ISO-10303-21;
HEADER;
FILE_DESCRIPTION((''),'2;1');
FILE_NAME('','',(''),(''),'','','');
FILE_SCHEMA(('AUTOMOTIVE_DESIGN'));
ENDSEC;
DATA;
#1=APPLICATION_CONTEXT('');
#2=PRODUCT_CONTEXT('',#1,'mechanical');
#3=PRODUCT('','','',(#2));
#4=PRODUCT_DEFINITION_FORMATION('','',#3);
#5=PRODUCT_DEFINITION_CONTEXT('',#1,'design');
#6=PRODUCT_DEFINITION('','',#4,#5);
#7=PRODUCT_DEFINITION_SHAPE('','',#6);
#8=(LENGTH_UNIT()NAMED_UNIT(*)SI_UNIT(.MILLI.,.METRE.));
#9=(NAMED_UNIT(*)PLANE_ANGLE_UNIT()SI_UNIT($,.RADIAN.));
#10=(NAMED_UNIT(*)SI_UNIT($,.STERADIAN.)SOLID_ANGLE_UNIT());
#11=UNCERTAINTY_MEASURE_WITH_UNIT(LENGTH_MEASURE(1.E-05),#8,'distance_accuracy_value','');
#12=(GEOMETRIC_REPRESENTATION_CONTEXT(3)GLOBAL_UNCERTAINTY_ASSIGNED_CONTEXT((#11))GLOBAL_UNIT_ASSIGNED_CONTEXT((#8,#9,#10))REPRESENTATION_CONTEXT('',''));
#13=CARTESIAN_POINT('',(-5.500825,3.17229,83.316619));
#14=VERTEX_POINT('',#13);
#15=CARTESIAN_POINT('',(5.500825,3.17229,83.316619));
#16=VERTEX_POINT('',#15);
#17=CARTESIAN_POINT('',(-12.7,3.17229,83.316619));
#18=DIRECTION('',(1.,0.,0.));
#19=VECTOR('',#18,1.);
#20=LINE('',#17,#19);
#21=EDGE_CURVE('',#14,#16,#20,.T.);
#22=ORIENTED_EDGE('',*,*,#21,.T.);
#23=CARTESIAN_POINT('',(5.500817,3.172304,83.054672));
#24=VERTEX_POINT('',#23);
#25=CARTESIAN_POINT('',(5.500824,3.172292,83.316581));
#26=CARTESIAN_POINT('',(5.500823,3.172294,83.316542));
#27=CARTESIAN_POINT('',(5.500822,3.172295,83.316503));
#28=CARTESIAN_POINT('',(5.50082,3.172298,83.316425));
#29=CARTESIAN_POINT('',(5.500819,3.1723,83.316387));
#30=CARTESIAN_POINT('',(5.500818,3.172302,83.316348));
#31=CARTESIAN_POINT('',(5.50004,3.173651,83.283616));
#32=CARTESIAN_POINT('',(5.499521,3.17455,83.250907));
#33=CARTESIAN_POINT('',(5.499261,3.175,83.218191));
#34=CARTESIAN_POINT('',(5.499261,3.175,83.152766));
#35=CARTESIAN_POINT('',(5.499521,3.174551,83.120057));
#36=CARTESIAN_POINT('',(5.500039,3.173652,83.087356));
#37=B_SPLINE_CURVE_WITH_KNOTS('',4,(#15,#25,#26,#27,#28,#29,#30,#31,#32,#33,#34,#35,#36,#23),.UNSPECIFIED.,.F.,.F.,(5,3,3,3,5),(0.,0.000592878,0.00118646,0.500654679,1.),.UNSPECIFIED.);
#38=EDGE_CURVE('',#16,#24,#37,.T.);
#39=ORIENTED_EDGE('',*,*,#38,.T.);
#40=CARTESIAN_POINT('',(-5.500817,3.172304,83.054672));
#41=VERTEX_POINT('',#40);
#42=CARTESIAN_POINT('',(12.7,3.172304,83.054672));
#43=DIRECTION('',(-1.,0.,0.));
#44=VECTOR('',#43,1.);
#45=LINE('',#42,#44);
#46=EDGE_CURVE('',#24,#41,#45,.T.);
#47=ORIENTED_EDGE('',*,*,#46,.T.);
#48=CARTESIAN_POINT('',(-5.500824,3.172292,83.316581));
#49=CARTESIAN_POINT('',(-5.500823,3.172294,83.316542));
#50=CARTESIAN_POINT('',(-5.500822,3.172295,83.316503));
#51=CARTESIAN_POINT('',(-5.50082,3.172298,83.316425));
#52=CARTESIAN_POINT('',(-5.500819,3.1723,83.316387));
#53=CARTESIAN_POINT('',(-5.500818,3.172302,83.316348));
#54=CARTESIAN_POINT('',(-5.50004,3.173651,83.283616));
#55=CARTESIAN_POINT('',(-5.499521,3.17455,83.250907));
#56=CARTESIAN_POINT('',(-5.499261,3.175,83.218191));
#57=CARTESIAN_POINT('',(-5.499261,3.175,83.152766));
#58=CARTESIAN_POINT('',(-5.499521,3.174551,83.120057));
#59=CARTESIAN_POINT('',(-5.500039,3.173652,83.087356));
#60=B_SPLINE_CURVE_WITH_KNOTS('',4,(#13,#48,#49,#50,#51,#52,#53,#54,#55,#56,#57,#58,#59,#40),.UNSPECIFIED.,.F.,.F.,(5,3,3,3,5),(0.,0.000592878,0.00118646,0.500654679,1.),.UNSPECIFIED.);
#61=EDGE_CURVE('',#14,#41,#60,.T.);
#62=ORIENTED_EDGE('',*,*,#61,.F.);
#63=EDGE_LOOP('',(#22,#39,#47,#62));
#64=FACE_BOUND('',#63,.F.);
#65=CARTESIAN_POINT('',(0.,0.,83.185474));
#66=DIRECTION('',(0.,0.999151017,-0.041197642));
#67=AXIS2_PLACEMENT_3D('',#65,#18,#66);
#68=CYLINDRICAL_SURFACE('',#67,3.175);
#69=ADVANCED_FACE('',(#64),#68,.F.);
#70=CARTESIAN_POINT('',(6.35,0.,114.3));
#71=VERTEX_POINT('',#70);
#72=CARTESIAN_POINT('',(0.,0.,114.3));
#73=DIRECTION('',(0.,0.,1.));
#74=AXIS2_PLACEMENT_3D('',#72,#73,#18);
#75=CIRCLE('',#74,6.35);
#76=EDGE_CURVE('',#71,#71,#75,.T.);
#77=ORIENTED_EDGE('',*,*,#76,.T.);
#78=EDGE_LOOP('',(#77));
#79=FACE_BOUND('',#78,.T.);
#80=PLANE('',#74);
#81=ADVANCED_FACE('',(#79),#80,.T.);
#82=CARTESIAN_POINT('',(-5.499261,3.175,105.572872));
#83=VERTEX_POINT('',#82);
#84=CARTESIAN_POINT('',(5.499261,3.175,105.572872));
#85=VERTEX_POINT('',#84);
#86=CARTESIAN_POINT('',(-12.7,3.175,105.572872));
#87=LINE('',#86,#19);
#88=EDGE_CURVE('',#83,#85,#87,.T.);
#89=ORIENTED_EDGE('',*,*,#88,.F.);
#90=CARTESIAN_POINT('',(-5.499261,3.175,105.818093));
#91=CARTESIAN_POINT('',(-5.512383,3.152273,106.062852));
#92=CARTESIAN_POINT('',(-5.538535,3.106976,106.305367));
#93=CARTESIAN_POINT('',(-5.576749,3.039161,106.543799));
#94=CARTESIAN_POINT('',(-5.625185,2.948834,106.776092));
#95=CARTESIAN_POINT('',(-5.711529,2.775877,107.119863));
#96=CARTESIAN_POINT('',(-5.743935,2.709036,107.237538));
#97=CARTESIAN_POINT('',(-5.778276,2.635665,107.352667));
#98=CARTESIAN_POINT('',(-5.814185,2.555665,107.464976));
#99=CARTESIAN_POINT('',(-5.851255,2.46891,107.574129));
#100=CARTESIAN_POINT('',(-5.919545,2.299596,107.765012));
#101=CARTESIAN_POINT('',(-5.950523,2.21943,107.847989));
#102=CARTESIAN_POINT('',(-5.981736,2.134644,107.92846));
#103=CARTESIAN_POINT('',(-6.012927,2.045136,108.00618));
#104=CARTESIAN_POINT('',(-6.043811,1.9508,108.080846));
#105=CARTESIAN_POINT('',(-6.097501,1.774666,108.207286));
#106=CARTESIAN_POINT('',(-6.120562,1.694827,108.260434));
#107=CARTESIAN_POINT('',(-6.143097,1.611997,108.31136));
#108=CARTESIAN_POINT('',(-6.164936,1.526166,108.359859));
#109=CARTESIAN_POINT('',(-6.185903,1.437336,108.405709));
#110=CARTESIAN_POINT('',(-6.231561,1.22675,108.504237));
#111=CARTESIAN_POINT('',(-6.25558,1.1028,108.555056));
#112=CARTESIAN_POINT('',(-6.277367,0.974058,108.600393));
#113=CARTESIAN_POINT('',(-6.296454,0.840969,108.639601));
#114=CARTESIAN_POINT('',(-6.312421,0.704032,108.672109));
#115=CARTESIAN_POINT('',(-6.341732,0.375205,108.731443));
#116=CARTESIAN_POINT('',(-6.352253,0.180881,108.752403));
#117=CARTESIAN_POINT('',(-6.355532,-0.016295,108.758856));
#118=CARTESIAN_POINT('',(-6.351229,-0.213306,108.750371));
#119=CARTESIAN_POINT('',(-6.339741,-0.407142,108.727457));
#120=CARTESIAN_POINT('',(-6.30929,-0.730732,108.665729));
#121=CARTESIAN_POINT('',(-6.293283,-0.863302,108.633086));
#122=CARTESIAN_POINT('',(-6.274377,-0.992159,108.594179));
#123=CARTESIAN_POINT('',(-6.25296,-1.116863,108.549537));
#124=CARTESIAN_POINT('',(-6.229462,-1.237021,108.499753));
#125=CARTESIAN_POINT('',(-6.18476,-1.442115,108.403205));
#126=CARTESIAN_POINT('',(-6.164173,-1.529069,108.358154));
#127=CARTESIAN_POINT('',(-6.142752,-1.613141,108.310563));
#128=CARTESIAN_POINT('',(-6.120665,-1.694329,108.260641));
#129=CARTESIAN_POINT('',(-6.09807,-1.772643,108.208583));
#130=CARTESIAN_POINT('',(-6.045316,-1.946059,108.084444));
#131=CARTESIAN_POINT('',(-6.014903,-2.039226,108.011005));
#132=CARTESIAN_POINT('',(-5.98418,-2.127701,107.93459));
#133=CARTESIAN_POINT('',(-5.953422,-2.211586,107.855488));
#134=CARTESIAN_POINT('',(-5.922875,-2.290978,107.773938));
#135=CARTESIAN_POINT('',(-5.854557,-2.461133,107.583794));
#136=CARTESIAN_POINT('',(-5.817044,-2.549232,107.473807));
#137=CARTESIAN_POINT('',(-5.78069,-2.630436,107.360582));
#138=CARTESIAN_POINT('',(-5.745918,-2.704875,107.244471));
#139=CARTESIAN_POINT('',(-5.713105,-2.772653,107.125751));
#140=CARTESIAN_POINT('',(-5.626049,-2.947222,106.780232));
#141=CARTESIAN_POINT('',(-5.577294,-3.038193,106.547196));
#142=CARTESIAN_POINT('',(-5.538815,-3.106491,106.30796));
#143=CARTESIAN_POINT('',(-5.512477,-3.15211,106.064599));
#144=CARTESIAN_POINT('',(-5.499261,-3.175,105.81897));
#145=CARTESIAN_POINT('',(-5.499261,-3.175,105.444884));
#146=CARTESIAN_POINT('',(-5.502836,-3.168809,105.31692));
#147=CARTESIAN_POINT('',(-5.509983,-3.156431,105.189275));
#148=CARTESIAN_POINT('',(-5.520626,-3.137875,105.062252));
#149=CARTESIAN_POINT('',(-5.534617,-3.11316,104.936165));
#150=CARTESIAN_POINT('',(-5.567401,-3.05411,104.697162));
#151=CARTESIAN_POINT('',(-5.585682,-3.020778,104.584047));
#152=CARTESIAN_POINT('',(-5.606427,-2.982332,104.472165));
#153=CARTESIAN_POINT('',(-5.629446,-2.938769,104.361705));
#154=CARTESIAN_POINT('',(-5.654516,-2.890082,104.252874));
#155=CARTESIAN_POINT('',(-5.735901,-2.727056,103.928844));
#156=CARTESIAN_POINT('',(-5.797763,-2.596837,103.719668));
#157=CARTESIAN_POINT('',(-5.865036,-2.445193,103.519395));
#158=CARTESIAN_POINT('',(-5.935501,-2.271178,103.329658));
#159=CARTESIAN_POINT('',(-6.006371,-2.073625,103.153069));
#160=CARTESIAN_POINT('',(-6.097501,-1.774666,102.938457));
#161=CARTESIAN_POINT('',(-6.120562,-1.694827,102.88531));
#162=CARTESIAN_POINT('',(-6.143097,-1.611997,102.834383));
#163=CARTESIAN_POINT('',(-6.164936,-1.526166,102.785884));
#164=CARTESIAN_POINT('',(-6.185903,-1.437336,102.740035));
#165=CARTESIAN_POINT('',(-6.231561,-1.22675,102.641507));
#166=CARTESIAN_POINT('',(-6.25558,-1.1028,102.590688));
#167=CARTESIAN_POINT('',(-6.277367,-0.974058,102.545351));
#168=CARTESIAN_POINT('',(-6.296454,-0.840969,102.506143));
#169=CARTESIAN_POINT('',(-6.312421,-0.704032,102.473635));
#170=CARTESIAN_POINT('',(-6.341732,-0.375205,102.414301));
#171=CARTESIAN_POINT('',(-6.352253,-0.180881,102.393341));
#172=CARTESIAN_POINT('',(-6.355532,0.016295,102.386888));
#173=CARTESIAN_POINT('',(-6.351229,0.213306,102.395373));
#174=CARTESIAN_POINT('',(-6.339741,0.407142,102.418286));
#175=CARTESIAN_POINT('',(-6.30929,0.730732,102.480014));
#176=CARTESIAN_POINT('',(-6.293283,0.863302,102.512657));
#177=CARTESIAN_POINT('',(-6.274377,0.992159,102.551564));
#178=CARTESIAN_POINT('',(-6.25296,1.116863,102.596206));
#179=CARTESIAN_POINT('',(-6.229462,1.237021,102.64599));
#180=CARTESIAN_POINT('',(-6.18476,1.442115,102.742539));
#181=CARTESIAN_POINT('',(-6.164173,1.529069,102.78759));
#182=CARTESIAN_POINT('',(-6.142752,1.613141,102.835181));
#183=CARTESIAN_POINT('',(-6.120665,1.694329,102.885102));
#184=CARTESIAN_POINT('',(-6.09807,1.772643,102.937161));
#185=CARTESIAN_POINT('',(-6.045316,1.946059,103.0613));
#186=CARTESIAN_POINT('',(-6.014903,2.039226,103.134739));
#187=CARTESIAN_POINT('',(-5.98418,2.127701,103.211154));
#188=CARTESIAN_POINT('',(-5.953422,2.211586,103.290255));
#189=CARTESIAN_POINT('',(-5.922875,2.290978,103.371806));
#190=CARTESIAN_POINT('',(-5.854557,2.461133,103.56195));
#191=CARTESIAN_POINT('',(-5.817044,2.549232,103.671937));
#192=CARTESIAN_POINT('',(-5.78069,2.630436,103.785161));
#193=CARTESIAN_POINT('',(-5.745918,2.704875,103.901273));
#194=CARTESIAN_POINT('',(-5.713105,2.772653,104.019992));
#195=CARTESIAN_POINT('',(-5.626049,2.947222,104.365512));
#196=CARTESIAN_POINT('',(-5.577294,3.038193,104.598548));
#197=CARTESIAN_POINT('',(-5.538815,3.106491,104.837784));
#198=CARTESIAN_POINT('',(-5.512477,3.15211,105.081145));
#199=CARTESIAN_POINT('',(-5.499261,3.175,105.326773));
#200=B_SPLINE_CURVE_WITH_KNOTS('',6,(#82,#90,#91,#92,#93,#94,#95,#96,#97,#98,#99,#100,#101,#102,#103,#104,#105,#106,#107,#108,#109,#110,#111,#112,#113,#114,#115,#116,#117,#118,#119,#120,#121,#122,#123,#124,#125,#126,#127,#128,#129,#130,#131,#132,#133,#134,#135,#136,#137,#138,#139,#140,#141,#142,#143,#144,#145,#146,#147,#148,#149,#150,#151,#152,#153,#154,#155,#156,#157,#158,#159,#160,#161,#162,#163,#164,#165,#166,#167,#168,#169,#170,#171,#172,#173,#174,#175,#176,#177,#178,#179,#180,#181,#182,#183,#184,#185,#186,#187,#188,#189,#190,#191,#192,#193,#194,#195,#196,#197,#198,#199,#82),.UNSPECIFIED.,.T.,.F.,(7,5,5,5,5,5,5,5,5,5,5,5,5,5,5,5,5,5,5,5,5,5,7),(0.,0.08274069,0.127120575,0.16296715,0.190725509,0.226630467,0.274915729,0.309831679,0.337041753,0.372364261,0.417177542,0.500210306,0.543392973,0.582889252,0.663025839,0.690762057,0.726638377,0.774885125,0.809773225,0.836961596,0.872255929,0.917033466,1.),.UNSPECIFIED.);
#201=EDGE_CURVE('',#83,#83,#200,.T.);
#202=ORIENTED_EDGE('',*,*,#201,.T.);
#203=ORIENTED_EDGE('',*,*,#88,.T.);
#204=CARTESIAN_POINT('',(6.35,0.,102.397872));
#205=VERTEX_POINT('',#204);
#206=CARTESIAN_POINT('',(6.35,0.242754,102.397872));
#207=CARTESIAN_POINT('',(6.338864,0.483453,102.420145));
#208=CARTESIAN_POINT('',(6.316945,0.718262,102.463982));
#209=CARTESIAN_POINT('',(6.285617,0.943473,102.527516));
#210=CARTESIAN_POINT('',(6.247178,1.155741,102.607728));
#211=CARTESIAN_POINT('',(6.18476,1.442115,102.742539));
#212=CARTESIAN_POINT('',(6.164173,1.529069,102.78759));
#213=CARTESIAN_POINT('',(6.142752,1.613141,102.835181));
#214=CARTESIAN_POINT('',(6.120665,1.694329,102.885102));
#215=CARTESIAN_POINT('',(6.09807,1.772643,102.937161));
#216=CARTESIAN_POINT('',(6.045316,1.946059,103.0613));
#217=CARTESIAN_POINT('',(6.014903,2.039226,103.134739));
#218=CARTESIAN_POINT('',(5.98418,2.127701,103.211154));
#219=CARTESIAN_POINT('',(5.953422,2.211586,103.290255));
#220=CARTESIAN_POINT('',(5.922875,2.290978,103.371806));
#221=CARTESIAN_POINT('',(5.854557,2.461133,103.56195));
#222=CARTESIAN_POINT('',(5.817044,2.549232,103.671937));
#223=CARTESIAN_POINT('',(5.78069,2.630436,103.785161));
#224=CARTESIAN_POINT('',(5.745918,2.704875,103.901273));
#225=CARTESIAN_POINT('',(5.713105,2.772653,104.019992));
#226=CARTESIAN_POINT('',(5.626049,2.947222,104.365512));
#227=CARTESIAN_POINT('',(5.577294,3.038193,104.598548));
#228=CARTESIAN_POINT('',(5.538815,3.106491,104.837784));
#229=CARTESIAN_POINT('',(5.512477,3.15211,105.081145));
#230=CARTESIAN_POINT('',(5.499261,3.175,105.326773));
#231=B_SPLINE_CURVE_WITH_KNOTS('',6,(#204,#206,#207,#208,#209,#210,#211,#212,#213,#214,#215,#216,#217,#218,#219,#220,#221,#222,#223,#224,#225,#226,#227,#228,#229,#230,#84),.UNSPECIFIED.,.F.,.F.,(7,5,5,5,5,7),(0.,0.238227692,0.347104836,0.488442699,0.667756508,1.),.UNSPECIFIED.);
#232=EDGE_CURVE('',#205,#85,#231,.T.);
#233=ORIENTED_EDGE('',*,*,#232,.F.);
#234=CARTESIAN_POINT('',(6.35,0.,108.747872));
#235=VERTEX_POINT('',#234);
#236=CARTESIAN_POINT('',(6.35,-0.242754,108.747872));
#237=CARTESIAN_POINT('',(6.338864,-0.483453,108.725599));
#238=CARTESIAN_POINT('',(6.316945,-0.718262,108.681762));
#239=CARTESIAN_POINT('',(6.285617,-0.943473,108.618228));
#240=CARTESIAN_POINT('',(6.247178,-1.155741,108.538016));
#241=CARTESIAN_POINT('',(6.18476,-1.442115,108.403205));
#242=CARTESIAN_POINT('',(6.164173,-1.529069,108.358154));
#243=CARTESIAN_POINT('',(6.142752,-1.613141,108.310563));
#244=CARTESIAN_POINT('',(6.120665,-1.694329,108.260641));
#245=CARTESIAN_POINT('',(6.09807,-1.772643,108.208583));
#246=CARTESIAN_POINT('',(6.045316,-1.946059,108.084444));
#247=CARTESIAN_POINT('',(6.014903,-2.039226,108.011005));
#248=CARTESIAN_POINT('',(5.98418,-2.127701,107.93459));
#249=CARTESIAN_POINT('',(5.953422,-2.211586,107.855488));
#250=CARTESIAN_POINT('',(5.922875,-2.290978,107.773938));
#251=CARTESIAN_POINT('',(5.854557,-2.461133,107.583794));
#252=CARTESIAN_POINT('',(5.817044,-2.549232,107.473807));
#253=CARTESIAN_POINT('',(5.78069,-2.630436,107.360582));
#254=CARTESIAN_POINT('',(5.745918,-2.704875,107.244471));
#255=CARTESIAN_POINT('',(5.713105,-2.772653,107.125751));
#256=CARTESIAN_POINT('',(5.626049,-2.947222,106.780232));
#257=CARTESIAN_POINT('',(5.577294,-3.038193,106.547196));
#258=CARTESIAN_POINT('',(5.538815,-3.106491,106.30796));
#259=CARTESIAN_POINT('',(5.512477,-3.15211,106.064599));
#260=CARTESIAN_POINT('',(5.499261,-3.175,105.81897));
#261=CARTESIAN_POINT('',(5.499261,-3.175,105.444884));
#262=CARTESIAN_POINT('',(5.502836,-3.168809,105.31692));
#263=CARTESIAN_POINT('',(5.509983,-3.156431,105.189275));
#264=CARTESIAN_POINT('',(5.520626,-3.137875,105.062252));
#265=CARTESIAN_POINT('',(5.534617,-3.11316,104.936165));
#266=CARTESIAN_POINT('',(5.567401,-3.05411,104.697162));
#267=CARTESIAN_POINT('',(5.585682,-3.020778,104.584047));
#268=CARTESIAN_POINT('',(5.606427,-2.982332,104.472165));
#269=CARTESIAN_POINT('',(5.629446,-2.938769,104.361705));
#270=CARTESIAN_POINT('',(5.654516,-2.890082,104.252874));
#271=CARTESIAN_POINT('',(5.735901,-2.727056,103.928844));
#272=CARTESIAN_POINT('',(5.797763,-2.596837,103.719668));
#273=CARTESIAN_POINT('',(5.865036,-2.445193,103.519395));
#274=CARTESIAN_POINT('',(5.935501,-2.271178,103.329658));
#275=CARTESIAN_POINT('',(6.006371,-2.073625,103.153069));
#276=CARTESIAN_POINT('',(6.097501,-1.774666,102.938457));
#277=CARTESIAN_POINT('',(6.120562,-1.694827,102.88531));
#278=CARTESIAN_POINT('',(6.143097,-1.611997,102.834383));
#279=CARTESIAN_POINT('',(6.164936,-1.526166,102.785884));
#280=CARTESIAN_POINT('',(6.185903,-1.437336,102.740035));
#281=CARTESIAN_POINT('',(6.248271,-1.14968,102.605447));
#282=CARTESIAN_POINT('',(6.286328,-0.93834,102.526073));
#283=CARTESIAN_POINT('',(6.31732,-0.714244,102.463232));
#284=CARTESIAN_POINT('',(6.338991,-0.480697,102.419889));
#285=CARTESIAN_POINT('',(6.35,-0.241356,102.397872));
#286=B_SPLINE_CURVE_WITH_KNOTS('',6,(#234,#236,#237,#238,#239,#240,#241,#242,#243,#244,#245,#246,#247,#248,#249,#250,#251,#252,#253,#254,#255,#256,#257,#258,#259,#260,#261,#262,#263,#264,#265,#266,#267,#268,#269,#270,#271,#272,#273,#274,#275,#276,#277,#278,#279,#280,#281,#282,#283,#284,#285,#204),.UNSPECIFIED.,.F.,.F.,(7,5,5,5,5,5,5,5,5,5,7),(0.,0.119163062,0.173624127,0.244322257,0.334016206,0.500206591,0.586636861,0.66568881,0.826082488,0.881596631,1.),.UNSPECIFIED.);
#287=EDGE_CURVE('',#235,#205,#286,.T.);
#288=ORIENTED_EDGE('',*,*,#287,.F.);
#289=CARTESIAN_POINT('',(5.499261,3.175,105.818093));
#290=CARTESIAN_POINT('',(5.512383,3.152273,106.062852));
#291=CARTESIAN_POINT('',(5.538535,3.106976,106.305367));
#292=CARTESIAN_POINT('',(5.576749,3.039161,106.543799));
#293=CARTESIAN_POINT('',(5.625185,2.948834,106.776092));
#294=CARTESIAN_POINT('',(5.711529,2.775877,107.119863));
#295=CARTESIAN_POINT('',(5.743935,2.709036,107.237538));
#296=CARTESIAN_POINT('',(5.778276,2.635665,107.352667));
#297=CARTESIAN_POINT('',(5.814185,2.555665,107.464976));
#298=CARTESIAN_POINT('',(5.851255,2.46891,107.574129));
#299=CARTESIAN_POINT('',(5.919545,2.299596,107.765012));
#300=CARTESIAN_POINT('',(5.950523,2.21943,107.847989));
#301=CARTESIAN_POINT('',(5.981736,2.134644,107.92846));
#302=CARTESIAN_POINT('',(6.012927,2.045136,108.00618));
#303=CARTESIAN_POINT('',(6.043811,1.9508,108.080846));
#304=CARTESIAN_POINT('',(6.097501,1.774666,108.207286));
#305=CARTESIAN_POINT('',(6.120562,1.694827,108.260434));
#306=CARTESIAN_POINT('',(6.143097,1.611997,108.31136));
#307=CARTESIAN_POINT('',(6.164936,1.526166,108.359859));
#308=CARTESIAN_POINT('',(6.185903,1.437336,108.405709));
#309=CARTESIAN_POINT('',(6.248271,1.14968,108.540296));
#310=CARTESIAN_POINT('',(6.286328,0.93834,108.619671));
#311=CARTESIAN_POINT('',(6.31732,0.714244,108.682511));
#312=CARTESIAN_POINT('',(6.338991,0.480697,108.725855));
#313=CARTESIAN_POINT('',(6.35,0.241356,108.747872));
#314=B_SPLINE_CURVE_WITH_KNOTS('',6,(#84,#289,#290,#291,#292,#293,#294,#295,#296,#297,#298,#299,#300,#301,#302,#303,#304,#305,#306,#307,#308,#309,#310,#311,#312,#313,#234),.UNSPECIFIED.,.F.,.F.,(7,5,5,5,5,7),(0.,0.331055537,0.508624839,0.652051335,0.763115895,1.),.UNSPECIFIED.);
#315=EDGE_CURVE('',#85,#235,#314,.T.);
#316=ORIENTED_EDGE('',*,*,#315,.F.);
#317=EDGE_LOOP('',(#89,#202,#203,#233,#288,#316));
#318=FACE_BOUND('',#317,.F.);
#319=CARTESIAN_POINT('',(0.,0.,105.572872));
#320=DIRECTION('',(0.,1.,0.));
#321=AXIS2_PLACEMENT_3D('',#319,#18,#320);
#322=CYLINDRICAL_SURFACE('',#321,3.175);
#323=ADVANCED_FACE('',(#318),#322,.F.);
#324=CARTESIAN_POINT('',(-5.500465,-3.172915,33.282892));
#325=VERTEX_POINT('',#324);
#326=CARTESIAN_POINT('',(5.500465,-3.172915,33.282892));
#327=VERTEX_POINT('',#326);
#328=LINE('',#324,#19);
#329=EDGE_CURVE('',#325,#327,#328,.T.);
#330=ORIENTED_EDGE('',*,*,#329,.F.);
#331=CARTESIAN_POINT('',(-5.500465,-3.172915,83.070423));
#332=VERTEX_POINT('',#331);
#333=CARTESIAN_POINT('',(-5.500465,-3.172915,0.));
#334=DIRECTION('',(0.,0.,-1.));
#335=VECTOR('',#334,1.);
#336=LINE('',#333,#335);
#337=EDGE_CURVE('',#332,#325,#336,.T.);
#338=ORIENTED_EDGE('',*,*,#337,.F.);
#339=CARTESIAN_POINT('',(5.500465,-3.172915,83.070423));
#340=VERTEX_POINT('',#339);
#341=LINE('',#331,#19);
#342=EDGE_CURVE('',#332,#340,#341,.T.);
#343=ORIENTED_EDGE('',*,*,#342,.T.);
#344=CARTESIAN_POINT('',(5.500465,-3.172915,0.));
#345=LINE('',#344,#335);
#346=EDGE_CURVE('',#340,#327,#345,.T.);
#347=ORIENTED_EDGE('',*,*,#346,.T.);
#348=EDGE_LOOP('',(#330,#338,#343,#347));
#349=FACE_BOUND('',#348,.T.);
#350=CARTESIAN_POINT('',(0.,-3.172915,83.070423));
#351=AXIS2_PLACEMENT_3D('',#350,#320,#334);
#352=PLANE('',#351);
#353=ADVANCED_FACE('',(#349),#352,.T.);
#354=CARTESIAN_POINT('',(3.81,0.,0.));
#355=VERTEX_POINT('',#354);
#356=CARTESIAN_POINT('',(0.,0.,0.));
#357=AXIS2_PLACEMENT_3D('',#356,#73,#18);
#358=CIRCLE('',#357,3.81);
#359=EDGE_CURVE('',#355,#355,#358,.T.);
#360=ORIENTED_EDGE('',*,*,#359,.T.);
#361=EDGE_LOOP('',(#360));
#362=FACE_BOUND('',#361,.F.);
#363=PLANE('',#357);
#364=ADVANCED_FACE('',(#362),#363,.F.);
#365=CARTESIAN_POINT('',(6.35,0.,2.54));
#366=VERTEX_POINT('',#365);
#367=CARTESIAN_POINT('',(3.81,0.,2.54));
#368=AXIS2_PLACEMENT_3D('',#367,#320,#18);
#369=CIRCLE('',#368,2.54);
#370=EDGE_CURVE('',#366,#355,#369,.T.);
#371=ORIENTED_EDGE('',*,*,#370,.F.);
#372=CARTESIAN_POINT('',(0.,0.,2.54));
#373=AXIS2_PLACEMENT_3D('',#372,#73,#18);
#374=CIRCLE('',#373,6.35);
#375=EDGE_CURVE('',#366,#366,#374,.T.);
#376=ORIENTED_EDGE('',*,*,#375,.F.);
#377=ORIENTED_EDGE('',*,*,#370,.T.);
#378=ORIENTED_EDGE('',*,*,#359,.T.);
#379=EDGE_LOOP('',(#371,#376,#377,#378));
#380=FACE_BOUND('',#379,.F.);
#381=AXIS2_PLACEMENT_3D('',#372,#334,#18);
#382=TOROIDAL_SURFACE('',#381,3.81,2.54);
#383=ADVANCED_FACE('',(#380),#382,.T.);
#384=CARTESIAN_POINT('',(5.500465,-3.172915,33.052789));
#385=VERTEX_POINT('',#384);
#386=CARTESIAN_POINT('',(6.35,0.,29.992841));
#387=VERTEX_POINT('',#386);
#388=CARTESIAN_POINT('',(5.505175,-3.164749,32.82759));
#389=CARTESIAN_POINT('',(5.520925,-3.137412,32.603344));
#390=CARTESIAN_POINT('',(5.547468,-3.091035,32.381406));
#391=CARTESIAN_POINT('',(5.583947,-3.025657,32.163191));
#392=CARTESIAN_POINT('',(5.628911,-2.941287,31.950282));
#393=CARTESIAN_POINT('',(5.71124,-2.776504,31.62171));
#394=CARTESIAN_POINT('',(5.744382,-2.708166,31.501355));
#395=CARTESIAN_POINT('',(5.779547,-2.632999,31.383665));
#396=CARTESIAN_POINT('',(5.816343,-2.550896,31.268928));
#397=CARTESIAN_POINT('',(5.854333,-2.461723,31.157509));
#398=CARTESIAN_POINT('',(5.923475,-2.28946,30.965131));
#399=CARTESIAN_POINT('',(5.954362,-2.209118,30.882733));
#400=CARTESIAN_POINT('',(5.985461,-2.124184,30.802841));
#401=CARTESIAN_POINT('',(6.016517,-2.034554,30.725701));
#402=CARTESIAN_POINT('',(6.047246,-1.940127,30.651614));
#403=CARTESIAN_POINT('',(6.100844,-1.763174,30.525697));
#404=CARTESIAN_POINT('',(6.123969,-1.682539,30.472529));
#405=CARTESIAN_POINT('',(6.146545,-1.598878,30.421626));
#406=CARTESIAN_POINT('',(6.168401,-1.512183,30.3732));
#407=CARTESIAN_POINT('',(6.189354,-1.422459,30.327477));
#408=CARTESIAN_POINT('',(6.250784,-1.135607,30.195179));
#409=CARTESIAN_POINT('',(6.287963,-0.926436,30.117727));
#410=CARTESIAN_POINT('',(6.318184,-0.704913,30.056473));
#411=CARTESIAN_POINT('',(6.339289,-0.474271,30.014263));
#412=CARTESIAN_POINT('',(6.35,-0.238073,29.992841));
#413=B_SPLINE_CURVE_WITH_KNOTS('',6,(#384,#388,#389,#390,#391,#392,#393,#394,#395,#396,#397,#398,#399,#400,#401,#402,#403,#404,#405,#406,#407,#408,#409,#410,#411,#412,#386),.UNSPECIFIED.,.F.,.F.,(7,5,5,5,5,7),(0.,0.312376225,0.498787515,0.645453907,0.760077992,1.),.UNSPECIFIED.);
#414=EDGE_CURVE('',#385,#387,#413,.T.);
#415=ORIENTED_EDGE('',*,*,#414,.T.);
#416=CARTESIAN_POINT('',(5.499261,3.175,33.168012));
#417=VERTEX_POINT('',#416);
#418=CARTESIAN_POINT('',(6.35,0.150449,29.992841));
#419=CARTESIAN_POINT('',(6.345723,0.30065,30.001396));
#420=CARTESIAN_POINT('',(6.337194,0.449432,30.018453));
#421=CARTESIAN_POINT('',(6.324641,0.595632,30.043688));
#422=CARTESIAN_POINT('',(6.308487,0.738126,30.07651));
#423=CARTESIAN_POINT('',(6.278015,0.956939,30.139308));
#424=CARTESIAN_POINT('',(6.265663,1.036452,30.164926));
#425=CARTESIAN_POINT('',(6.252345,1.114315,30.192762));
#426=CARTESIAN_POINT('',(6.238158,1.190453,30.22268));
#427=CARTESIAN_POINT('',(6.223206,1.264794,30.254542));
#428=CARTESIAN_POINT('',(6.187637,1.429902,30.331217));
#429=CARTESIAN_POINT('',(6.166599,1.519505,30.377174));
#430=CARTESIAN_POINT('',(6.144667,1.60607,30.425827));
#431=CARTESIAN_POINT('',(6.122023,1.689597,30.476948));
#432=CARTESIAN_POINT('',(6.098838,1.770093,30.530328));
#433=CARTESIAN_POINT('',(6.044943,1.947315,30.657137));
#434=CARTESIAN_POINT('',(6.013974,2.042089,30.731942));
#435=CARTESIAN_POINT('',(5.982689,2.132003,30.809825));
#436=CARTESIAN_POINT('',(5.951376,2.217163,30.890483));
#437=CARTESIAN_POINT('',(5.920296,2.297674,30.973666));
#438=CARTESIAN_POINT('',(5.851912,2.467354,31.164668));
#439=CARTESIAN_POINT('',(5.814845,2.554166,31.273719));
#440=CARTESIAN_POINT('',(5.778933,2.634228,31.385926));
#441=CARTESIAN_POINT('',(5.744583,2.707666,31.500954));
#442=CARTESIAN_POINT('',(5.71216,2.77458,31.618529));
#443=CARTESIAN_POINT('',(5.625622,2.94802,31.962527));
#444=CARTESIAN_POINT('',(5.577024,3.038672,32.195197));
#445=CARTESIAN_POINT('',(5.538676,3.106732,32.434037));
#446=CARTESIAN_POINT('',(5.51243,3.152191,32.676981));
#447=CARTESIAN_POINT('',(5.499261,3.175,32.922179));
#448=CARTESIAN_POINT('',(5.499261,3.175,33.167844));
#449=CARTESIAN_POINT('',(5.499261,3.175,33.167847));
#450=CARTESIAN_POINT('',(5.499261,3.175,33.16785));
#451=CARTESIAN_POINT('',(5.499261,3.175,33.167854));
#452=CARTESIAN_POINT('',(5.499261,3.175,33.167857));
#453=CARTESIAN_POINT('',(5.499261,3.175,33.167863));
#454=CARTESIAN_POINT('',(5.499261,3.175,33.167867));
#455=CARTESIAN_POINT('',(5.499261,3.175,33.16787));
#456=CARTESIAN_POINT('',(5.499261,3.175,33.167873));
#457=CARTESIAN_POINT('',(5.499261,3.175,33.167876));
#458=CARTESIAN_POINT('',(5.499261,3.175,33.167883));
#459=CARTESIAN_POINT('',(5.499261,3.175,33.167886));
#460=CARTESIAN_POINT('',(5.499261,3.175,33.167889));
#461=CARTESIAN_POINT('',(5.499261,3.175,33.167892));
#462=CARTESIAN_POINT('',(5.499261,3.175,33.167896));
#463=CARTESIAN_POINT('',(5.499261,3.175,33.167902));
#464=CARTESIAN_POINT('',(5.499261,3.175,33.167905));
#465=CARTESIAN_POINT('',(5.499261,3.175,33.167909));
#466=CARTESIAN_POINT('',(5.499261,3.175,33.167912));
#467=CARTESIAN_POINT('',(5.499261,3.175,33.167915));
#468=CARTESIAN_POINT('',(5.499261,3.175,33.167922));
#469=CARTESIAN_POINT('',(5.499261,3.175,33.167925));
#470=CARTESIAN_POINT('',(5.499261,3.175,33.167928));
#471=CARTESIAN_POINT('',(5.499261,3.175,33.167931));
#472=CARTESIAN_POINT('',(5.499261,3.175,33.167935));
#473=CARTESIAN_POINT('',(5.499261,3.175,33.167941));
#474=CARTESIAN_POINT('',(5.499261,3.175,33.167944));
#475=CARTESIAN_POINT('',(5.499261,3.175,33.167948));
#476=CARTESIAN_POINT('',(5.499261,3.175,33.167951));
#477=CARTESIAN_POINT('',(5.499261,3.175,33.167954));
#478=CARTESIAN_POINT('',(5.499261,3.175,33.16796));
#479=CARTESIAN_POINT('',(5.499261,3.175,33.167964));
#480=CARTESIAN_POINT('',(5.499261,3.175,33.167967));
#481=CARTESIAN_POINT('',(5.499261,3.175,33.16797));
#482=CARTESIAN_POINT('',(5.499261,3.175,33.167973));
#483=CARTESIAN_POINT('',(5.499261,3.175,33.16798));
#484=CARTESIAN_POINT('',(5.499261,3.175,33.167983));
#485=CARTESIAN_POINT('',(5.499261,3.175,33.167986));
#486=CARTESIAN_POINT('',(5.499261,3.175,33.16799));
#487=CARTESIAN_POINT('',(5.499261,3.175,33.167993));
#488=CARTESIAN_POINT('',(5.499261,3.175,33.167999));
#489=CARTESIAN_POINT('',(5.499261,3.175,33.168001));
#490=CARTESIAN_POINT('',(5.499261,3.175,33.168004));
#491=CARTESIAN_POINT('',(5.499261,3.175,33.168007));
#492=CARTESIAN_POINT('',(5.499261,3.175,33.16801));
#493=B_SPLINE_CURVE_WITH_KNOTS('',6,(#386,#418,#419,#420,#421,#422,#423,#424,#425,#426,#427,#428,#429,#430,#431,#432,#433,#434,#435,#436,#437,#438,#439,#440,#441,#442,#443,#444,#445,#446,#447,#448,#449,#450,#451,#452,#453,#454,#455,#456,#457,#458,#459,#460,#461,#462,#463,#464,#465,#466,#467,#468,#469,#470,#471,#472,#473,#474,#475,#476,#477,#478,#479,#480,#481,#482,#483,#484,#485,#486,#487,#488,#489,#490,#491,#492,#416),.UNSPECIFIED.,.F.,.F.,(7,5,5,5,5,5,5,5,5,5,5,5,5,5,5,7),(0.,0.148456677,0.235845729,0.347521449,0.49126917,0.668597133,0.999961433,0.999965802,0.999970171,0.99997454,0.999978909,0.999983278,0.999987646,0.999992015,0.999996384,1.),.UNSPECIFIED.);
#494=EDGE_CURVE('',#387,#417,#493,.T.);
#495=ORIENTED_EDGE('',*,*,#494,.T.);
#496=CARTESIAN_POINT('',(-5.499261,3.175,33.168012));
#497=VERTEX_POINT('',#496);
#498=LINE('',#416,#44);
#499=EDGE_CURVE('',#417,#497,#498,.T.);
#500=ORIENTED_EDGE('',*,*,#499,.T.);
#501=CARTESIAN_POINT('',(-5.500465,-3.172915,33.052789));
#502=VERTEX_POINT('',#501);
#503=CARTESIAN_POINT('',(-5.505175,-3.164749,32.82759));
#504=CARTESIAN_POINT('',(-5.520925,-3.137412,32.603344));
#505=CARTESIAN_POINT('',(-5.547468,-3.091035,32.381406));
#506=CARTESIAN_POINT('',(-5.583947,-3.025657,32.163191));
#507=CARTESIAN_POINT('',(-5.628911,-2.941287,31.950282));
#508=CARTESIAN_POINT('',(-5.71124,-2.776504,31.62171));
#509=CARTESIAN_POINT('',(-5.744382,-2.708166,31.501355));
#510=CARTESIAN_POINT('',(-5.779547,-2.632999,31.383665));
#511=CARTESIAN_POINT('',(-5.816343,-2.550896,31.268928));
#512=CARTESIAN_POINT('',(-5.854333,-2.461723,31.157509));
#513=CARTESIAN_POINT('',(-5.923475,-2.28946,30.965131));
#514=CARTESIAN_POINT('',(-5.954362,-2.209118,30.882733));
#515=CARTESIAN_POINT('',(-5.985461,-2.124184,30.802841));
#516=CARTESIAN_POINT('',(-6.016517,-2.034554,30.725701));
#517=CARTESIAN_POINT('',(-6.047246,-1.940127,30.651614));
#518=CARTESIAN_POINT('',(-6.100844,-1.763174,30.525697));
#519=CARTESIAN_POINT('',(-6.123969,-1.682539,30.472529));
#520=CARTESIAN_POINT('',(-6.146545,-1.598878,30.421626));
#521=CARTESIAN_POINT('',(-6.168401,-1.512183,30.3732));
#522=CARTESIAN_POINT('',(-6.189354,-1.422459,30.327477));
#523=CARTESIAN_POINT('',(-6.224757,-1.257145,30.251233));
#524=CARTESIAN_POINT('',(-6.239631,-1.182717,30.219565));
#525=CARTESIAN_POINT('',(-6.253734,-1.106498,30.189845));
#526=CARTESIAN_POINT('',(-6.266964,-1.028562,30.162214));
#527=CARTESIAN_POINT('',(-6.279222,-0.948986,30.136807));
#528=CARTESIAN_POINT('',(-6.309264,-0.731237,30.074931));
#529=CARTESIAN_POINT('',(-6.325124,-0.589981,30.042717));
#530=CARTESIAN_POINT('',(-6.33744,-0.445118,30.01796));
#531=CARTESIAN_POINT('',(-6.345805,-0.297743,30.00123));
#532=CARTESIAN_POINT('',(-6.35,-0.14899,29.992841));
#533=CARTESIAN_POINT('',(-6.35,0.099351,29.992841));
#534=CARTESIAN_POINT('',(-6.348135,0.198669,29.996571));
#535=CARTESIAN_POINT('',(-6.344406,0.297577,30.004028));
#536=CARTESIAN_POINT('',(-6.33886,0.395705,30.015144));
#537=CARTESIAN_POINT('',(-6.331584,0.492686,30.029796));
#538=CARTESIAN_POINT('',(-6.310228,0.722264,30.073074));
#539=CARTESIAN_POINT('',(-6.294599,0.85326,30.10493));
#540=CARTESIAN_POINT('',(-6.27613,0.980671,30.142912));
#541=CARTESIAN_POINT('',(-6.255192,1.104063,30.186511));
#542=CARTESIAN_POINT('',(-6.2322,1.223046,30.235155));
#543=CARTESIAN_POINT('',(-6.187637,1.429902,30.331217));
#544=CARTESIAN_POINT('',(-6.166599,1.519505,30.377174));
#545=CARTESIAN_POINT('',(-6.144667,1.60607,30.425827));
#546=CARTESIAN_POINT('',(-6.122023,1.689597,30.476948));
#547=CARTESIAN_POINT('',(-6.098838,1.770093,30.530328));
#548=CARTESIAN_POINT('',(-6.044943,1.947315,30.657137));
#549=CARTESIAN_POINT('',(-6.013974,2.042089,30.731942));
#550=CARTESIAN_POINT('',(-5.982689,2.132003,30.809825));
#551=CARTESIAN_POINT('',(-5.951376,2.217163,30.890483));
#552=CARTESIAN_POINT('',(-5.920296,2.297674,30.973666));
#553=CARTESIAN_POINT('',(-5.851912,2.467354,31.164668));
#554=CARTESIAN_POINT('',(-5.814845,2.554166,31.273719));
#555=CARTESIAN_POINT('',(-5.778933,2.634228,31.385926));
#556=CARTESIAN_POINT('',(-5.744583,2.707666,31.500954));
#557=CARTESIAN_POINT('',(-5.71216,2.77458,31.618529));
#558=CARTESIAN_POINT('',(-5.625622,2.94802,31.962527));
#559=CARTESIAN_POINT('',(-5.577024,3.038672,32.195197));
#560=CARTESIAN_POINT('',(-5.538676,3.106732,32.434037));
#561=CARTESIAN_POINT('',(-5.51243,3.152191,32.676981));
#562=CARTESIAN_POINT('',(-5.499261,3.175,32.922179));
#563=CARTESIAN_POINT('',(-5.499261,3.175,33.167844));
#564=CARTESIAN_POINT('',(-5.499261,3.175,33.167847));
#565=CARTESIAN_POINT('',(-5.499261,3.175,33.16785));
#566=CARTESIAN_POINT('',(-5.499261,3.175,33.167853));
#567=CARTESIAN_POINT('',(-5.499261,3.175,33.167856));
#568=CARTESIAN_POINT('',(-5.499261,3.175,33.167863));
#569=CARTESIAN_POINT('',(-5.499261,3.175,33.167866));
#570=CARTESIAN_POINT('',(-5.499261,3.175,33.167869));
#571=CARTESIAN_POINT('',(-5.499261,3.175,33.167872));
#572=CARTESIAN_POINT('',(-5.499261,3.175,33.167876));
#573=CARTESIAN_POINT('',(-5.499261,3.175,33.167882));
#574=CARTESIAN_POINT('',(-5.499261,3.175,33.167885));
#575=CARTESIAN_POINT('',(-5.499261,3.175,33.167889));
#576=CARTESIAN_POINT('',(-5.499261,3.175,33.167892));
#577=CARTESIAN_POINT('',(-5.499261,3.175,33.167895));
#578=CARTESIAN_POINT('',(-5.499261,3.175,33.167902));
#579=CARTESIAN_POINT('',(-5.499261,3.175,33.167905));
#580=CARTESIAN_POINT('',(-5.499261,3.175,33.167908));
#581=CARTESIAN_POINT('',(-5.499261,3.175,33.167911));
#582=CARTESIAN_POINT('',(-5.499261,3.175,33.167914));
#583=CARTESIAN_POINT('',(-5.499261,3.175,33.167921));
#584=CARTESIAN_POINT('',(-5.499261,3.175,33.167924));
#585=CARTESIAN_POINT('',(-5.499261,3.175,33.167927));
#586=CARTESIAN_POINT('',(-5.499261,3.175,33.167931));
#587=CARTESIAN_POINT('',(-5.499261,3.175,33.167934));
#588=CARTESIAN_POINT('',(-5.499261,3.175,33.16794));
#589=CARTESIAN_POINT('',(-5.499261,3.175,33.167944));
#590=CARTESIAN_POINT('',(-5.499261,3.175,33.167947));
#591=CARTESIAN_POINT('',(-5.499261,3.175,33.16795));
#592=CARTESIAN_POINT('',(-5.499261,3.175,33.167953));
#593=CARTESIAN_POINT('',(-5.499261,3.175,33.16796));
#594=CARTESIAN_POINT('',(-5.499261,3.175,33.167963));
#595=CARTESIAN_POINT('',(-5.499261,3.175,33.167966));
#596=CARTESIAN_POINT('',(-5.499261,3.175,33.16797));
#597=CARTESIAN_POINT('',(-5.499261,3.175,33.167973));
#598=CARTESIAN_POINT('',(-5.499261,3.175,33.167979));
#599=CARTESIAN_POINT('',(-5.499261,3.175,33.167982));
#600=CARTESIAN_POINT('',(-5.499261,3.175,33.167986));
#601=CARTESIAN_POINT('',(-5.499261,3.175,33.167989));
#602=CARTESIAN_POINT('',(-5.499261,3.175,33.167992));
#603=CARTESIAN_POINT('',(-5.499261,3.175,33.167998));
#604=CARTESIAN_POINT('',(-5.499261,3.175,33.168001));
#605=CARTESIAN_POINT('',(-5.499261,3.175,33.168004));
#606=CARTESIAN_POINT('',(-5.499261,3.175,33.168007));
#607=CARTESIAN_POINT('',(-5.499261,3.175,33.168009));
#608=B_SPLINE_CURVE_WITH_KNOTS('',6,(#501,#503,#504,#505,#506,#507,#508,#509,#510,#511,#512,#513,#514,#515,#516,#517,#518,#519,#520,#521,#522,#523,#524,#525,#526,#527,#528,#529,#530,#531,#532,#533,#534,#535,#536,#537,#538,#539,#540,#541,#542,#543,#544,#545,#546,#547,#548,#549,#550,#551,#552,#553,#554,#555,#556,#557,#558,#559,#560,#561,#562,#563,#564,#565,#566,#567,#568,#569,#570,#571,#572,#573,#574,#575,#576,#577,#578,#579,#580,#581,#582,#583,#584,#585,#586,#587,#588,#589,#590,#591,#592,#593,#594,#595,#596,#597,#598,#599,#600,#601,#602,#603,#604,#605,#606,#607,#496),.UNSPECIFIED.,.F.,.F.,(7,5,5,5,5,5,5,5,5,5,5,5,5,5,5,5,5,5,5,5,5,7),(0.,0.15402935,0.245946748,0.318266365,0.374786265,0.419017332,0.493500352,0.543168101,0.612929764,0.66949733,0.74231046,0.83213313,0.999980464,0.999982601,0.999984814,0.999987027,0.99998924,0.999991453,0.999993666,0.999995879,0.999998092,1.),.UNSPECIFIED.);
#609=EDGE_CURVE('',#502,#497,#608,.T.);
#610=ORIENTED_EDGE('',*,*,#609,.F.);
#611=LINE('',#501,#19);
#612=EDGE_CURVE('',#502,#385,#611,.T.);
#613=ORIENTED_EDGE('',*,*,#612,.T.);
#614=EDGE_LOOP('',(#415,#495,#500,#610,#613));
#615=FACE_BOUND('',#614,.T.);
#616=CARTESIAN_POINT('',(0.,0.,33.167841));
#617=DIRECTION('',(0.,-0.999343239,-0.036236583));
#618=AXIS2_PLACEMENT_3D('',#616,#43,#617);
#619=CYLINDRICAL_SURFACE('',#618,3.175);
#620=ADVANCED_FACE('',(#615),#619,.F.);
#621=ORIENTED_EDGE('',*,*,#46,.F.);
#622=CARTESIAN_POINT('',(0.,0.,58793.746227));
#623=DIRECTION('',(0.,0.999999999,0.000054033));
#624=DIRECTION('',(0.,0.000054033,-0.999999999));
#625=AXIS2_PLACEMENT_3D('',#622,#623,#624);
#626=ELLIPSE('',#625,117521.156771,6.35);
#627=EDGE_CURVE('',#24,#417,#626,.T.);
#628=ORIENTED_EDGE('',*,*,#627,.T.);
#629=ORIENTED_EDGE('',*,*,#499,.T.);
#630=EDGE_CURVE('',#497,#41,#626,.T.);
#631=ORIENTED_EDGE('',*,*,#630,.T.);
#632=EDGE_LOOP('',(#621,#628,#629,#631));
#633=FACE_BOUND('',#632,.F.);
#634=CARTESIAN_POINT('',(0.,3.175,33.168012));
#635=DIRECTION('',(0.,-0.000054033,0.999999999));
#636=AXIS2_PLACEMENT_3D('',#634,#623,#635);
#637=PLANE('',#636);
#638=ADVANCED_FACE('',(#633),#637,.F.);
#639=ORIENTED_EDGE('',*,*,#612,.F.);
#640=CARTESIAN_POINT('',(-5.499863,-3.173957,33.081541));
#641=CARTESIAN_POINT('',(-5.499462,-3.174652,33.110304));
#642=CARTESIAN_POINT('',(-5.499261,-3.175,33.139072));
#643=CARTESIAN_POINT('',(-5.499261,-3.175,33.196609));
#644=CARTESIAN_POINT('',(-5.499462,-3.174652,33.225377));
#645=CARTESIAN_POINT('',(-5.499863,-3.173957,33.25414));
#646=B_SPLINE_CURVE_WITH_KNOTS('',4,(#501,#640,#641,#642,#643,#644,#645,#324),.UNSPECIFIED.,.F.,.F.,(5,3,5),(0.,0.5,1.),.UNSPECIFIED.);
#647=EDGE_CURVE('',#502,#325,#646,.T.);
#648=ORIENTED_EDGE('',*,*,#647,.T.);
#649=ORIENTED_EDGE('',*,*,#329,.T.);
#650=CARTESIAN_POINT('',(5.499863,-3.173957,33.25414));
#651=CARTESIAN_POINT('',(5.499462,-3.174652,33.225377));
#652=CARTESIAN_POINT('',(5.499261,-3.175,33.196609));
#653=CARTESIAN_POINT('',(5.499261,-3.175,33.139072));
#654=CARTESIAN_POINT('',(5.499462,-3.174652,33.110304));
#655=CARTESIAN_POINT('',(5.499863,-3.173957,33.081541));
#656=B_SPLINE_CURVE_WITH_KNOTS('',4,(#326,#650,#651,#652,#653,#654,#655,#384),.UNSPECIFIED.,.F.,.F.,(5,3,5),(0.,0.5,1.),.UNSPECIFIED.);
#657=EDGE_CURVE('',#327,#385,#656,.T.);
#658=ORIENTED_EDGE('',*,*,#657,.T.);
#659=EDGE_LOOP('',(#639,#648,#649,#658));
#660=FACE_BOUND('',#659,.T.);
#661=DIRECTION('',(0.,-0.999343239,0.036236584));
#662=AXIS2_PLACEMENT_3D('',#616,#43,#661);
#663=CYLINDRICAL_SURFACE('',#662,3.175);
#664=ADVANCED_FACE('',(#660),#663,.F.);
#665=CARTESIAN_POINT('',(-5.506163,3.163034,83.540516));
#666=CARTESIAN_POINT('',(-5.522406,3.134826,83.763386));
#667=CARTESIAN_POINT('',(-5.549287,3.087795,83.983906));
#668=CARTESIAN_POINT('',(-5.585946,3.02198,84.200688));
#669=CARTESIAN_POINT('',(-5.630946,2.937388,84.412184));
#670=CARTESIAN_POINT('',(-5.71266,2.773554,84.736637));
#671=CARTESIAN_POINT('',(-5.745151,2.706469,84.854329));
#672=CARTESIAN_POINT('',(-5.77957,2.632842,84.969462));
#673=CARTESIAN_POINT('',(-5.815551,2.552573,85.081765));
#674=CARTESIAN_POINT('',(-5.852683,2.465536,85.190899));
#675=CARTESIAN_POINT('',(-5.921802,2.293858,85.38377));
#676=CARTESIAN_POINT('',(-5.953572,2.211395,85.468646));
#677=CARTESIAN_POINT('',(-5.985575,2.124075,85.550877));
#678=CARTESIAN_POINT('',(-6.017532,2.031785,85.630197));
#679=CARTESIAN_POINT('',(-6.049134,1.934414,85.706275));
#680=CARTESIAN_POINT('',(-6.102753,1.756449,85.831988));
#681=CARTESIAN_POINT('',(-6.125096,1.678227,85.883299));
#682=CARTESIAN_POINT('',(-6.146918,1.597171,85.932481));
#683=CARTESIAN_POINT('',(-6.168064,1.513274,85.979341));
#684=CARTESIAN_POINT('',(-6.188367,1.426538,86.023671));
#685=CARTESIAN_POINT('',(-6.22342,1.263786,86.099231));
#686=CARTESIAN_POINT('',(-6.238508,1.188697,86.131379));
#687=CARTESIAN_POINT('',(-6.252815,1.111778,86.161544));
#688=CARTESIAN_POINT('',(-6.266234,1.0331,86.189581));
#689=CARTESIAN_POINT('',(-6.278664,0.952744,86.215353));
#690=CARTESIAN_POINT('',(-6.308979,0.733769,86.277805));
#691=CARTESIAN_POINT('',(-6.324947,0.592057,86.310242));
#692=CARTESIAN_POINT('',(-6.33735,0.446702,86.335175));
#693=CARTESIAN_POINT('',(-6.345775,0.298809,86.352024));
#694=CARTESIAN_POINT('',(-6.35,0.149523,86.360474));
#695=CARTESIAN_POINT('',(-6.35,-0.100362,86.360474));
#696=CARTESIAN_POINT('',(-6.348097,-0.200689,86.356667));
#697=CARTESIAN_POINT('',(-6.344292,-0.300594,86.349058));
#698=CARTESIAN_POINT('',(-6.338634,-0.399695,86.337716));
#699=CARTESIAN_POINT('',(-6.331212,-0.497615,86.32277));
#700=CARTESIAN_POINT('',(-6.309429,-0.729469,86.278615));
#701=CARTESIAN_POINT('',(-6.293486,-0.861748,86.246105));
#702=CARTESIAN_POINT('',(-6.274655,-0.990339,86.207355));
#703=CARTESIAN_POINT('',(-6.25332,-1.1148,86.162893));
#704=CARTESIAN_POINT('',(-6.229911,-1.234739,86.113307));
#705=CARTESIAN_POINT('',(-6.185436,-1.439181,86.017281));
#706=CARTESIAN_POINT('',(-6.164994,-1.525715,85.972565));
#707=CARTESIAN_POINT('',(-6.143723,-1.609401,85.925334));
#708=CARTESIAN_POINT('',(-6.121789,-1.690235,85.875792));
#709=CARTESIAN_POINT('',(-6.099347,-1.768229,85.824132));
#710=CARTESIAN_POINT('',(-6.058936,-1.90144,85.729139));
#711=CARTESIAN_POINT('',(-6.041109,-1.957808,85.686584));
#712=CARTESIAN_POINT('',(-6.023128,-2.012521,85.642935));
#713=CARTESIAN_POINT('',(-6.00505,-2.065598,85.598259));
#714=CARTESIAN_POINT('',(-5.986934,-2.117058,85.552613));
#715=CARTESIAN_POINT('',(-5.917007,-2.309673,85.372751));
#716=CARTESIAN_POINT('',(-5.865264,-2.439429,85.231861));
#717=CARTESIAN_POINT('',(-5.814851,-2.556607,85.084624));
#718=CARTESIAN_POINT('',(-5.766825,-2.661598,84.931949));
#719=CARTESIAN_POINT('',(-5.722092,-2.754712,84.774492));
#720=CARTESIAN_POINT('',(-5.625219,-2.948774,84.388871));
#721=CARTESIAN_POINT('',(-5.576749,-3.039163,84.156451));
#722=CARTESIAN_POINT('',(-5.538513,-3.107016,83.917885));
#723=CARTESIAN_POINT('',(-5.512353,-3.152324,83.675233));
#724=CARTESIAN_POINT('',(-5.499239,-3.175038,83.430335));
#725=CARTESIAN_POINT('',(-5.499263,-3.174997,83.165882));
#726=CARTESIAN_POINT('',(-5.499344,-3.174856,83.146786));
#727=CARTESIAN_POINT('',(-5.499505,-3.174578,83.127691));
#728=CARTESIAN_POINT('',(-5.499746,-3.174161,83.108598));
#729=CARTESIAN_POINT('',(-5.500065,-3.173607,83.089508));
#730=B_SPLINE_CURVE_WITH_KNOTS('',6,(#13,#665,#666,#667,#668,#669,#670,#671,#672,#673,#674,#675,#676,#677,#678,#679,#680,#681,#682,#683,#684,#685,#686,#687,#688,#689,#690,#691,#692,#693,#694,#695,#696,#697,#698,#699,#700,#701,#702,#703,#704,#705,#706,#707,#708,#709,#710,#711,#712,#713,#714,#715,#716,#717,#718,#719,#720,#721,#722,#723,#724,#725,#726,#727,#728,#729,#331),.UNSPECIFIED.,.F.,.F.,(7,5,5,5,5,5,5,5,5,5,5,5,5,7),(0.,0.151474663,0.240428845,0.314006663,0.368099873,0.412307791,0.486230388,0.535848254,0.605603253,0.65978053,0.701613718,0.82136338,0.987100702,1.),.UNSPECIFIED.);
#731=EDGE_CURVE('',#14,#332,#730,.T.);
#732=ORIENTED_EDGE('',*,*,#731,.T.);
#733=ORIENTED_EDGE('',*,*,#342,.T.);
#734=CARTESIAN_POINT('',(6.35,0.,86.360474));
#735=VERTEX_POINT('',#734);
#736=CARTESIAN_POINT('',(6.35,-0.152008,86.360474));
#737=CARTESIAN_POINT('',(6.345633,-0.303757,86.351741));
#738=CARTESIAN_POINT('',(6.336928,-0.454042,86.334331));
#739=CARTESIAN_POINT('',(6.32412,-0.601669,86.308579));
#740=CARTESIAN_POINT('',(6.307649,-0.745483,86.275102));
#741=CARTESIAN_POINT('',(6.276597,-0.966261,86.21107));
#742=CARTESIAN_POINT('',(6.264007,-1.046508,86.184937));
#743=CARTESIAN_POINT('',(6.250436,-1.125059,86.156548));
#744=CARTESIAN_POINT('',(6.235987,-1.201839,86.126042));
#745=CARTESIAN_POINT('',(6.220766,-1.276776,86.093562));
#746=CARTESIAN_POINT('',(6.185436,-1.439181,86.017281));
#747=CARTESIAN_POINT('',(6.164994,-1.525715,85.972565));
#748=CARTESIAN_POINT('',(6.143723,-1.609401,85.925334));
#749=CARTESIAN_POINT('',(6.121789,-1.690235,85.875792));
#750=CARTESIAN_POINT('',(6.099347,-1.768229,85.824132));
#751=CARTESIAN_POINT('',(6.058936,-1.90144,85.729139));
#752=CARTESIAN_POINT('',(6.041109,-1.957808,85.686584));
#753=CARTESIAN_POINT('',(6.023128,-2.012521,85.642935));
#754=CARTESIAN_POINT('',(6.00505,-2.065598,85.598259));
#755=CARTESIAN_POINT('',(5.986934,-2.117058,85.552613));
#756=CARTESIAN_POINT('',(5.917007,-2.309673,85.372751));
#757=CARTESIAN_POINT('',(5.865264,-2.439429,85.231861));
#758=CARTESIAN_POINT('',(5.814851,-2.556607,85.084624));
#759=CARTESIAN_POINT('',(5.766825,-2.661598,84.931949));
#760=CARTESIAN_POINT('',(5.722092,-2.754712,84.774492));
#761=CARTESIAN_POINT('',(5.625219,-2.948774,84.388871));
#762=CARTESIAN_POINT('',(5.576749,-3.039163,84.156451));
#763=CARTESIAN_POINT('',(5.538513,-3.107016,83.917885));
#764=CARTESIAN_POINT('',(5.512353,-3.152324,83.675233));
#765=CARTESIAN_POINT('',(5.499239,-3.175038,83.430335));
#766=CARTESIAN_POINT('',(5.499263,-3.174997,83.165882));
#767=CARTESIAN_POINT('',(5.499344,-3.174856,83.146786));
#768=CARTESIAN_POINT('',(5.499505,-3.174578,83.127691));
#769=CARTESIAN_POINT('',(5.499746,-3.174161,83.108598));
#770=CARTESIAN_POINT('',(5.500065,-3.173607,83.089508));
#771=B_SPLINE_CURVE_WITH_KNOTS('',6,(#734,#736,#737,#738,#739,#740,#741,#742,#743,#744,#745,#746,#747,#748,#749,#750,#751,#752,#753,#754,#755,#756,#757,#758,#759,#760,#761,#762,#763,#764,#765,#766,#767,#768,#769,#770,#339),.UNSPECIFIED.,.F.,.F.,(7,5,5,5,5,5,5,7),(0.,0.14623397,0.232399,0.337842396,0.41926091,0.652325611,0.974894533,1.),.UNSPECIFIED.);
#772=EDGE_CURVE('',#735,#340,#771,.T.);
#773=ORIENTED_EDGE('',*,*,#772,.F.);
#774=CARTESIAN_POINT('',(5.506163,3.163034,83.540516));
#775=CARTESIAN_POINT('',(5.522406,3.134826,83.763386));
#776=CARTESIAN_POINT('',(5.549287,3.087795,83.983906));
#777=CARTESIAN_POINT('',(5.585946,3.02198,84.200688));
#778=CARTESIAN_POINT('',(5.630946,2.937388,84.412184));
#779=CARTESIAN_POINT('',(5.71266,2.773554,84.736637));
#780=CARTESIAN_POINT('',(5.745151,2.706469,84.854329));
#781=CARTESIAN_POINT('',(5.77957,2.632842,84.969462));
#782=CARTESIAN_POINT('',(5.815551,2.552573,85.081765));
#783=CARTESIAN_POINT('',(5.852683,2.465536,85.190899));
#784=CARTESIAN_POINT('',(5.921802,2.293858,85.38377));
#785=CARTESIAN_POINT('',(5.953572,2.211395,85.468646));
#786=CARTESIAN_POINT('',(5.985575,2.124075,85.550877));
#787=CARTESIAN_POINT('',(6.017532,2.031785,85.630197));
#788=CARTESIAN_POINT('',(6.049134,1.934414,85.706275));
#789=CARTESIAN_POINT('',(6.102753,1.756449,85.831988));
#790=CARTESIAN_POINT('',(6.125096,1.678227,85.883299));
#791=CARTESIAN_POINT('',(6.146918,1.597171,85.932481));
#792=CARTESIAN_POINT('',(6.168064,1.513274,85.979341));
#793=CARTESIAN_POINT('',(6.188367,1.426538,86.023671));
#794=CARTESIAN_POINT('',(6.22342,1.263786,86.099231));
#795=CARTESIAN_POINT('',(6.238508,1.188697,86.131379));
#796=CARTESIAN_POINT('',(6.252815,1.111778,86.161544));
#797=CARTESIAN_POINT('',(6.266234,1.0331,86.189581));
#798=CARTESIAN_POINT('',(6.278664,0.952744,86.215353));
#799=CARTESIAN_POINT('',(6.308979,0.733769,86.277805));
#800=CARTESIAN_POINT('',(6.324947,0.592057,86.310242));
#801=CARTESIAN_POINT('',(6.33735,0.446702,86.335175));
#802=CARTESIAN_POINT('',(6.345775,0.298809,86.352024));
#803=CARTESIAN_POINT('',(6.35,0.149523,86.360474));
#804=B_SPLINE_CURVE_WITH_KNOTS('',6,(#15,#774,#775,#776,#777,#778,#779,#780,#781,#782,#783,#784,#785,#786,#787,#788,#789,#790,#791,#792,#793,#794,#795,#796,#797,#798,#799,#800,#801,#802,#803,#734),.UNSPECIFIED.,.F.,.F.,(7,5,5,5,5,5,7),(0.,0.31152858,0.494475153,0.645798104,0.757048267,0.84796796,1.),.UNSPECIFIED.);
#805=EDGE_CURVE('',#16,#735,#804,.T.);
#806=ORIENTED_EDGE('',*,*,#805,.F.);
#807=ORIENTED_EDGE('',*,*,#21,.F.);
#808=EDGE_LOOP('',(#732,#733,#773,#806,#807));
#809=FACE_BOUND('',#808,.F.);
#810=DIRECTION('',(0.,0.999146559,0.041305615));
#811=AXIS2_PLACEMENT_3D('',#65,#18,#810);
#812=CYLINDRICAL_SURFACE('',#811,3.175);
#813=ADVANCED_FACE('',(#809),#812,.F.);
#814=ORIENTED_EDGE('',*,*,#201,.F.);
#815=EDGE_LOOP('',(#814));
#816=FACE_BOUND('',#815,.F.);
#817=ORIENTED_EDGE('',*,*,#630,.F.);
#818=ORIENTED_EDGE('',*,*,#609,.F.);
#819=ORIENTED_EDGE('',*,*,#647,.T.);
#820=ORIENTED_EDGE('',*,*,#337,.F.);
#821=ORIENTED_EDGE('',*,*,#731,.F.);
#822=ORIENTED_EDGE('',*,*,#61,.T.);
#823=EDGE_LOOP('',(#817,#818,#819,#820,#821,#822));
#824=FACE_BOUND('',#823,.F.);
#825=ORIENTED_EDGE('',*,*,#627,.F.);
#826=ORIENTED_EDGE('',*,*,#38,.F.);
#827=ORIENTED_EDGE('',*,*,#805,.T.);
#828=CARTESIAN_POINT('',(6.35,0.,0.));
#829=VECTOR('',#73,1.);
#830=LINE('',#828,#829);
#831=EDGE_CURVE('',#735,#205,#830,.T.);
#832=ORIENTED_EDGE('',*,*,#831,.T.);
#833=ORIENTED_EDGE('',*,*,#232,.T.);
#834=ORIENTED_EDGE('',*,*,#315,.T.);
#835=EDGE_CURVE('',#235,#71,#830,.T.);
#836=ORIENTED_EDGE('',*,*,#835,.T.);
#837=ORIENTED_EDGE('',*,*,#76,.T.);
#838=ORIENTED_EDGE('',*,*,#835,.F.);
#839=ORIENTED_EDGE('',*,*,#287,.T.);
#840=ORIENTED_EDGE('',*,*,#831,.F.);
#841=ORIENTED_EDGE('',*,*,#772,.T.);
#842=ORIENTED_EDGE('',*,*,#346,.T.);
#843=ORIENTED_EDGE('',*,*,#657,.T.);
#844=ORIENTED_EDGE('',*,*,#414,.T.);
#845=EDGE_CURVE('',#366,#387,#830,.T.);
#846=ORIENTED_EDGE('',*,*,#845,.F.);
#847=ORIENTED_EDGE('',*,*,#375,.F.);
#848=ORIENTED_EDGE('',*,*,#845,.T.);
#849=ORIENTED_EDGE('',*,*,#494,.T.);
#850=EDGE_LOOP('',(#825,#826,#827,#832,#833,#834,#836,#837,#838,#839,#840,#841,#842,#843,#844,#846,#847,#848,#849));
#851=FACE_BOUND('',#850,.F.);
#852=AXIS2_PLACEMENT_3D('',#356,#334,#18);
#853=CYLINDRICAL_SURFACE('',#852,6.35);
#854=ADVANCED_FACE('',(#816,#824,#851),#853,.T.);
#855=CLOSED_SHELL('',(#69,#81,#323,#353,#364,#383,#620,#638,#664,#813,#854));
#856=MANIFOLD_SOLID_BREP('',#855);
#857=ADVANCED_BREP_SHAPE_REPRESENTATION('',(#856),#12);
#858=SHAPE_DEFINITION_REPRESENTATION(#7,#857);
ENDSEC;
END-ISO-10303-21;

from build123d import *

# Parameters (mm, degrees)
F0_R     = 6.35
F1_DEPTH = 114.3
F2_R     = 2.54
F4_DEPTH = 12.7
F5_R     = 3.175
F6_DEPTH = 12.7


with BuildPart() as f1:
    # F0 (on Top) → F1 (new body)
    with BuildSketch(Plane.XY):
        Circle(F0_R)
    extrude(amount=F1_DEPTH)

    # F2
    f2_edges = [f1.edges().sort_by_distance(p)[0] for p in [
        (-6.35, 0, 0),
    ]]
    fillet(f2_edges, radius=F2_R)

    # F3 (on Right) → F4 (cut, symmetric)
    with BuildSketch(Plane.YZ):
        with BuildLine():
            Line((3.1722903245, 83.3166194451), (3.1723044783, 83.0546716063))
            ThreePointArc((3.1723044783, 83.0546716063), (3.1749999954, 83.1856456717), (3.1722903245, 83.3166194451))
        make_face()
        with BuildLine():
            Line((3.1749999954, 33.1680122005), (3.1723044783, 83.0546716063))
            Line((3.1723044783, 83.0546716063), (3.1722903245, 83.3166194451))
            ThreePointArc((3.1722903245, 83.3166194451), (-0.0080531428, 86.3604639044), (-3.1729147849, 83.3005252697))
            Line((-3.1729147849, 83.3005252697), (-3.1729147849, 83.0704229654))
            Line((-3.1729147849, 83.0704229654), (-3.1729147849, 33.2828917985))
            Line((-3.1729147849, 33.2828917985), (-3.1729147849, 33.0527894941))
            ThreePointArc((-3.1729147849, 33.0527894941), (0.0576207865, 29.9933635484), (3.1749999954, 33.1680122005))
        make_face()
        with BuildLine():
            Line((-3.1729147849, 83.0704229654), (-3.1729147849, 83.3005252697))
            ThreePointArc((-3.1729147849, 83.3005252697), (-3.175, 83.1854741175), (-3.1729147849, 83.0704229654))
        make_face()
        with BuildLine():
            ThreePointArc((-3.1729147849, 33.2828917985), (-3.175, 33.1678406463), (-3.1729147849, 33.0527894941))
            Line((-3.1729147849, 33.0527894941), (-3.1729147849, 33.2828917985))
        make_face()
    extrude(amount=F4_DEPTH, both=True, mode=Mode.SUBTRACT)

    # F5 (on Right) → F6 (cut, symmetric)
    with BuildSketch(Plane.YZ):
        with Locations((0, 105.5728718638)):
            Circle(F5_R)
    extrude(amount=F6_DEPTH, both=True, mode=Mode.SUBTRACT)


solid = f1.part
